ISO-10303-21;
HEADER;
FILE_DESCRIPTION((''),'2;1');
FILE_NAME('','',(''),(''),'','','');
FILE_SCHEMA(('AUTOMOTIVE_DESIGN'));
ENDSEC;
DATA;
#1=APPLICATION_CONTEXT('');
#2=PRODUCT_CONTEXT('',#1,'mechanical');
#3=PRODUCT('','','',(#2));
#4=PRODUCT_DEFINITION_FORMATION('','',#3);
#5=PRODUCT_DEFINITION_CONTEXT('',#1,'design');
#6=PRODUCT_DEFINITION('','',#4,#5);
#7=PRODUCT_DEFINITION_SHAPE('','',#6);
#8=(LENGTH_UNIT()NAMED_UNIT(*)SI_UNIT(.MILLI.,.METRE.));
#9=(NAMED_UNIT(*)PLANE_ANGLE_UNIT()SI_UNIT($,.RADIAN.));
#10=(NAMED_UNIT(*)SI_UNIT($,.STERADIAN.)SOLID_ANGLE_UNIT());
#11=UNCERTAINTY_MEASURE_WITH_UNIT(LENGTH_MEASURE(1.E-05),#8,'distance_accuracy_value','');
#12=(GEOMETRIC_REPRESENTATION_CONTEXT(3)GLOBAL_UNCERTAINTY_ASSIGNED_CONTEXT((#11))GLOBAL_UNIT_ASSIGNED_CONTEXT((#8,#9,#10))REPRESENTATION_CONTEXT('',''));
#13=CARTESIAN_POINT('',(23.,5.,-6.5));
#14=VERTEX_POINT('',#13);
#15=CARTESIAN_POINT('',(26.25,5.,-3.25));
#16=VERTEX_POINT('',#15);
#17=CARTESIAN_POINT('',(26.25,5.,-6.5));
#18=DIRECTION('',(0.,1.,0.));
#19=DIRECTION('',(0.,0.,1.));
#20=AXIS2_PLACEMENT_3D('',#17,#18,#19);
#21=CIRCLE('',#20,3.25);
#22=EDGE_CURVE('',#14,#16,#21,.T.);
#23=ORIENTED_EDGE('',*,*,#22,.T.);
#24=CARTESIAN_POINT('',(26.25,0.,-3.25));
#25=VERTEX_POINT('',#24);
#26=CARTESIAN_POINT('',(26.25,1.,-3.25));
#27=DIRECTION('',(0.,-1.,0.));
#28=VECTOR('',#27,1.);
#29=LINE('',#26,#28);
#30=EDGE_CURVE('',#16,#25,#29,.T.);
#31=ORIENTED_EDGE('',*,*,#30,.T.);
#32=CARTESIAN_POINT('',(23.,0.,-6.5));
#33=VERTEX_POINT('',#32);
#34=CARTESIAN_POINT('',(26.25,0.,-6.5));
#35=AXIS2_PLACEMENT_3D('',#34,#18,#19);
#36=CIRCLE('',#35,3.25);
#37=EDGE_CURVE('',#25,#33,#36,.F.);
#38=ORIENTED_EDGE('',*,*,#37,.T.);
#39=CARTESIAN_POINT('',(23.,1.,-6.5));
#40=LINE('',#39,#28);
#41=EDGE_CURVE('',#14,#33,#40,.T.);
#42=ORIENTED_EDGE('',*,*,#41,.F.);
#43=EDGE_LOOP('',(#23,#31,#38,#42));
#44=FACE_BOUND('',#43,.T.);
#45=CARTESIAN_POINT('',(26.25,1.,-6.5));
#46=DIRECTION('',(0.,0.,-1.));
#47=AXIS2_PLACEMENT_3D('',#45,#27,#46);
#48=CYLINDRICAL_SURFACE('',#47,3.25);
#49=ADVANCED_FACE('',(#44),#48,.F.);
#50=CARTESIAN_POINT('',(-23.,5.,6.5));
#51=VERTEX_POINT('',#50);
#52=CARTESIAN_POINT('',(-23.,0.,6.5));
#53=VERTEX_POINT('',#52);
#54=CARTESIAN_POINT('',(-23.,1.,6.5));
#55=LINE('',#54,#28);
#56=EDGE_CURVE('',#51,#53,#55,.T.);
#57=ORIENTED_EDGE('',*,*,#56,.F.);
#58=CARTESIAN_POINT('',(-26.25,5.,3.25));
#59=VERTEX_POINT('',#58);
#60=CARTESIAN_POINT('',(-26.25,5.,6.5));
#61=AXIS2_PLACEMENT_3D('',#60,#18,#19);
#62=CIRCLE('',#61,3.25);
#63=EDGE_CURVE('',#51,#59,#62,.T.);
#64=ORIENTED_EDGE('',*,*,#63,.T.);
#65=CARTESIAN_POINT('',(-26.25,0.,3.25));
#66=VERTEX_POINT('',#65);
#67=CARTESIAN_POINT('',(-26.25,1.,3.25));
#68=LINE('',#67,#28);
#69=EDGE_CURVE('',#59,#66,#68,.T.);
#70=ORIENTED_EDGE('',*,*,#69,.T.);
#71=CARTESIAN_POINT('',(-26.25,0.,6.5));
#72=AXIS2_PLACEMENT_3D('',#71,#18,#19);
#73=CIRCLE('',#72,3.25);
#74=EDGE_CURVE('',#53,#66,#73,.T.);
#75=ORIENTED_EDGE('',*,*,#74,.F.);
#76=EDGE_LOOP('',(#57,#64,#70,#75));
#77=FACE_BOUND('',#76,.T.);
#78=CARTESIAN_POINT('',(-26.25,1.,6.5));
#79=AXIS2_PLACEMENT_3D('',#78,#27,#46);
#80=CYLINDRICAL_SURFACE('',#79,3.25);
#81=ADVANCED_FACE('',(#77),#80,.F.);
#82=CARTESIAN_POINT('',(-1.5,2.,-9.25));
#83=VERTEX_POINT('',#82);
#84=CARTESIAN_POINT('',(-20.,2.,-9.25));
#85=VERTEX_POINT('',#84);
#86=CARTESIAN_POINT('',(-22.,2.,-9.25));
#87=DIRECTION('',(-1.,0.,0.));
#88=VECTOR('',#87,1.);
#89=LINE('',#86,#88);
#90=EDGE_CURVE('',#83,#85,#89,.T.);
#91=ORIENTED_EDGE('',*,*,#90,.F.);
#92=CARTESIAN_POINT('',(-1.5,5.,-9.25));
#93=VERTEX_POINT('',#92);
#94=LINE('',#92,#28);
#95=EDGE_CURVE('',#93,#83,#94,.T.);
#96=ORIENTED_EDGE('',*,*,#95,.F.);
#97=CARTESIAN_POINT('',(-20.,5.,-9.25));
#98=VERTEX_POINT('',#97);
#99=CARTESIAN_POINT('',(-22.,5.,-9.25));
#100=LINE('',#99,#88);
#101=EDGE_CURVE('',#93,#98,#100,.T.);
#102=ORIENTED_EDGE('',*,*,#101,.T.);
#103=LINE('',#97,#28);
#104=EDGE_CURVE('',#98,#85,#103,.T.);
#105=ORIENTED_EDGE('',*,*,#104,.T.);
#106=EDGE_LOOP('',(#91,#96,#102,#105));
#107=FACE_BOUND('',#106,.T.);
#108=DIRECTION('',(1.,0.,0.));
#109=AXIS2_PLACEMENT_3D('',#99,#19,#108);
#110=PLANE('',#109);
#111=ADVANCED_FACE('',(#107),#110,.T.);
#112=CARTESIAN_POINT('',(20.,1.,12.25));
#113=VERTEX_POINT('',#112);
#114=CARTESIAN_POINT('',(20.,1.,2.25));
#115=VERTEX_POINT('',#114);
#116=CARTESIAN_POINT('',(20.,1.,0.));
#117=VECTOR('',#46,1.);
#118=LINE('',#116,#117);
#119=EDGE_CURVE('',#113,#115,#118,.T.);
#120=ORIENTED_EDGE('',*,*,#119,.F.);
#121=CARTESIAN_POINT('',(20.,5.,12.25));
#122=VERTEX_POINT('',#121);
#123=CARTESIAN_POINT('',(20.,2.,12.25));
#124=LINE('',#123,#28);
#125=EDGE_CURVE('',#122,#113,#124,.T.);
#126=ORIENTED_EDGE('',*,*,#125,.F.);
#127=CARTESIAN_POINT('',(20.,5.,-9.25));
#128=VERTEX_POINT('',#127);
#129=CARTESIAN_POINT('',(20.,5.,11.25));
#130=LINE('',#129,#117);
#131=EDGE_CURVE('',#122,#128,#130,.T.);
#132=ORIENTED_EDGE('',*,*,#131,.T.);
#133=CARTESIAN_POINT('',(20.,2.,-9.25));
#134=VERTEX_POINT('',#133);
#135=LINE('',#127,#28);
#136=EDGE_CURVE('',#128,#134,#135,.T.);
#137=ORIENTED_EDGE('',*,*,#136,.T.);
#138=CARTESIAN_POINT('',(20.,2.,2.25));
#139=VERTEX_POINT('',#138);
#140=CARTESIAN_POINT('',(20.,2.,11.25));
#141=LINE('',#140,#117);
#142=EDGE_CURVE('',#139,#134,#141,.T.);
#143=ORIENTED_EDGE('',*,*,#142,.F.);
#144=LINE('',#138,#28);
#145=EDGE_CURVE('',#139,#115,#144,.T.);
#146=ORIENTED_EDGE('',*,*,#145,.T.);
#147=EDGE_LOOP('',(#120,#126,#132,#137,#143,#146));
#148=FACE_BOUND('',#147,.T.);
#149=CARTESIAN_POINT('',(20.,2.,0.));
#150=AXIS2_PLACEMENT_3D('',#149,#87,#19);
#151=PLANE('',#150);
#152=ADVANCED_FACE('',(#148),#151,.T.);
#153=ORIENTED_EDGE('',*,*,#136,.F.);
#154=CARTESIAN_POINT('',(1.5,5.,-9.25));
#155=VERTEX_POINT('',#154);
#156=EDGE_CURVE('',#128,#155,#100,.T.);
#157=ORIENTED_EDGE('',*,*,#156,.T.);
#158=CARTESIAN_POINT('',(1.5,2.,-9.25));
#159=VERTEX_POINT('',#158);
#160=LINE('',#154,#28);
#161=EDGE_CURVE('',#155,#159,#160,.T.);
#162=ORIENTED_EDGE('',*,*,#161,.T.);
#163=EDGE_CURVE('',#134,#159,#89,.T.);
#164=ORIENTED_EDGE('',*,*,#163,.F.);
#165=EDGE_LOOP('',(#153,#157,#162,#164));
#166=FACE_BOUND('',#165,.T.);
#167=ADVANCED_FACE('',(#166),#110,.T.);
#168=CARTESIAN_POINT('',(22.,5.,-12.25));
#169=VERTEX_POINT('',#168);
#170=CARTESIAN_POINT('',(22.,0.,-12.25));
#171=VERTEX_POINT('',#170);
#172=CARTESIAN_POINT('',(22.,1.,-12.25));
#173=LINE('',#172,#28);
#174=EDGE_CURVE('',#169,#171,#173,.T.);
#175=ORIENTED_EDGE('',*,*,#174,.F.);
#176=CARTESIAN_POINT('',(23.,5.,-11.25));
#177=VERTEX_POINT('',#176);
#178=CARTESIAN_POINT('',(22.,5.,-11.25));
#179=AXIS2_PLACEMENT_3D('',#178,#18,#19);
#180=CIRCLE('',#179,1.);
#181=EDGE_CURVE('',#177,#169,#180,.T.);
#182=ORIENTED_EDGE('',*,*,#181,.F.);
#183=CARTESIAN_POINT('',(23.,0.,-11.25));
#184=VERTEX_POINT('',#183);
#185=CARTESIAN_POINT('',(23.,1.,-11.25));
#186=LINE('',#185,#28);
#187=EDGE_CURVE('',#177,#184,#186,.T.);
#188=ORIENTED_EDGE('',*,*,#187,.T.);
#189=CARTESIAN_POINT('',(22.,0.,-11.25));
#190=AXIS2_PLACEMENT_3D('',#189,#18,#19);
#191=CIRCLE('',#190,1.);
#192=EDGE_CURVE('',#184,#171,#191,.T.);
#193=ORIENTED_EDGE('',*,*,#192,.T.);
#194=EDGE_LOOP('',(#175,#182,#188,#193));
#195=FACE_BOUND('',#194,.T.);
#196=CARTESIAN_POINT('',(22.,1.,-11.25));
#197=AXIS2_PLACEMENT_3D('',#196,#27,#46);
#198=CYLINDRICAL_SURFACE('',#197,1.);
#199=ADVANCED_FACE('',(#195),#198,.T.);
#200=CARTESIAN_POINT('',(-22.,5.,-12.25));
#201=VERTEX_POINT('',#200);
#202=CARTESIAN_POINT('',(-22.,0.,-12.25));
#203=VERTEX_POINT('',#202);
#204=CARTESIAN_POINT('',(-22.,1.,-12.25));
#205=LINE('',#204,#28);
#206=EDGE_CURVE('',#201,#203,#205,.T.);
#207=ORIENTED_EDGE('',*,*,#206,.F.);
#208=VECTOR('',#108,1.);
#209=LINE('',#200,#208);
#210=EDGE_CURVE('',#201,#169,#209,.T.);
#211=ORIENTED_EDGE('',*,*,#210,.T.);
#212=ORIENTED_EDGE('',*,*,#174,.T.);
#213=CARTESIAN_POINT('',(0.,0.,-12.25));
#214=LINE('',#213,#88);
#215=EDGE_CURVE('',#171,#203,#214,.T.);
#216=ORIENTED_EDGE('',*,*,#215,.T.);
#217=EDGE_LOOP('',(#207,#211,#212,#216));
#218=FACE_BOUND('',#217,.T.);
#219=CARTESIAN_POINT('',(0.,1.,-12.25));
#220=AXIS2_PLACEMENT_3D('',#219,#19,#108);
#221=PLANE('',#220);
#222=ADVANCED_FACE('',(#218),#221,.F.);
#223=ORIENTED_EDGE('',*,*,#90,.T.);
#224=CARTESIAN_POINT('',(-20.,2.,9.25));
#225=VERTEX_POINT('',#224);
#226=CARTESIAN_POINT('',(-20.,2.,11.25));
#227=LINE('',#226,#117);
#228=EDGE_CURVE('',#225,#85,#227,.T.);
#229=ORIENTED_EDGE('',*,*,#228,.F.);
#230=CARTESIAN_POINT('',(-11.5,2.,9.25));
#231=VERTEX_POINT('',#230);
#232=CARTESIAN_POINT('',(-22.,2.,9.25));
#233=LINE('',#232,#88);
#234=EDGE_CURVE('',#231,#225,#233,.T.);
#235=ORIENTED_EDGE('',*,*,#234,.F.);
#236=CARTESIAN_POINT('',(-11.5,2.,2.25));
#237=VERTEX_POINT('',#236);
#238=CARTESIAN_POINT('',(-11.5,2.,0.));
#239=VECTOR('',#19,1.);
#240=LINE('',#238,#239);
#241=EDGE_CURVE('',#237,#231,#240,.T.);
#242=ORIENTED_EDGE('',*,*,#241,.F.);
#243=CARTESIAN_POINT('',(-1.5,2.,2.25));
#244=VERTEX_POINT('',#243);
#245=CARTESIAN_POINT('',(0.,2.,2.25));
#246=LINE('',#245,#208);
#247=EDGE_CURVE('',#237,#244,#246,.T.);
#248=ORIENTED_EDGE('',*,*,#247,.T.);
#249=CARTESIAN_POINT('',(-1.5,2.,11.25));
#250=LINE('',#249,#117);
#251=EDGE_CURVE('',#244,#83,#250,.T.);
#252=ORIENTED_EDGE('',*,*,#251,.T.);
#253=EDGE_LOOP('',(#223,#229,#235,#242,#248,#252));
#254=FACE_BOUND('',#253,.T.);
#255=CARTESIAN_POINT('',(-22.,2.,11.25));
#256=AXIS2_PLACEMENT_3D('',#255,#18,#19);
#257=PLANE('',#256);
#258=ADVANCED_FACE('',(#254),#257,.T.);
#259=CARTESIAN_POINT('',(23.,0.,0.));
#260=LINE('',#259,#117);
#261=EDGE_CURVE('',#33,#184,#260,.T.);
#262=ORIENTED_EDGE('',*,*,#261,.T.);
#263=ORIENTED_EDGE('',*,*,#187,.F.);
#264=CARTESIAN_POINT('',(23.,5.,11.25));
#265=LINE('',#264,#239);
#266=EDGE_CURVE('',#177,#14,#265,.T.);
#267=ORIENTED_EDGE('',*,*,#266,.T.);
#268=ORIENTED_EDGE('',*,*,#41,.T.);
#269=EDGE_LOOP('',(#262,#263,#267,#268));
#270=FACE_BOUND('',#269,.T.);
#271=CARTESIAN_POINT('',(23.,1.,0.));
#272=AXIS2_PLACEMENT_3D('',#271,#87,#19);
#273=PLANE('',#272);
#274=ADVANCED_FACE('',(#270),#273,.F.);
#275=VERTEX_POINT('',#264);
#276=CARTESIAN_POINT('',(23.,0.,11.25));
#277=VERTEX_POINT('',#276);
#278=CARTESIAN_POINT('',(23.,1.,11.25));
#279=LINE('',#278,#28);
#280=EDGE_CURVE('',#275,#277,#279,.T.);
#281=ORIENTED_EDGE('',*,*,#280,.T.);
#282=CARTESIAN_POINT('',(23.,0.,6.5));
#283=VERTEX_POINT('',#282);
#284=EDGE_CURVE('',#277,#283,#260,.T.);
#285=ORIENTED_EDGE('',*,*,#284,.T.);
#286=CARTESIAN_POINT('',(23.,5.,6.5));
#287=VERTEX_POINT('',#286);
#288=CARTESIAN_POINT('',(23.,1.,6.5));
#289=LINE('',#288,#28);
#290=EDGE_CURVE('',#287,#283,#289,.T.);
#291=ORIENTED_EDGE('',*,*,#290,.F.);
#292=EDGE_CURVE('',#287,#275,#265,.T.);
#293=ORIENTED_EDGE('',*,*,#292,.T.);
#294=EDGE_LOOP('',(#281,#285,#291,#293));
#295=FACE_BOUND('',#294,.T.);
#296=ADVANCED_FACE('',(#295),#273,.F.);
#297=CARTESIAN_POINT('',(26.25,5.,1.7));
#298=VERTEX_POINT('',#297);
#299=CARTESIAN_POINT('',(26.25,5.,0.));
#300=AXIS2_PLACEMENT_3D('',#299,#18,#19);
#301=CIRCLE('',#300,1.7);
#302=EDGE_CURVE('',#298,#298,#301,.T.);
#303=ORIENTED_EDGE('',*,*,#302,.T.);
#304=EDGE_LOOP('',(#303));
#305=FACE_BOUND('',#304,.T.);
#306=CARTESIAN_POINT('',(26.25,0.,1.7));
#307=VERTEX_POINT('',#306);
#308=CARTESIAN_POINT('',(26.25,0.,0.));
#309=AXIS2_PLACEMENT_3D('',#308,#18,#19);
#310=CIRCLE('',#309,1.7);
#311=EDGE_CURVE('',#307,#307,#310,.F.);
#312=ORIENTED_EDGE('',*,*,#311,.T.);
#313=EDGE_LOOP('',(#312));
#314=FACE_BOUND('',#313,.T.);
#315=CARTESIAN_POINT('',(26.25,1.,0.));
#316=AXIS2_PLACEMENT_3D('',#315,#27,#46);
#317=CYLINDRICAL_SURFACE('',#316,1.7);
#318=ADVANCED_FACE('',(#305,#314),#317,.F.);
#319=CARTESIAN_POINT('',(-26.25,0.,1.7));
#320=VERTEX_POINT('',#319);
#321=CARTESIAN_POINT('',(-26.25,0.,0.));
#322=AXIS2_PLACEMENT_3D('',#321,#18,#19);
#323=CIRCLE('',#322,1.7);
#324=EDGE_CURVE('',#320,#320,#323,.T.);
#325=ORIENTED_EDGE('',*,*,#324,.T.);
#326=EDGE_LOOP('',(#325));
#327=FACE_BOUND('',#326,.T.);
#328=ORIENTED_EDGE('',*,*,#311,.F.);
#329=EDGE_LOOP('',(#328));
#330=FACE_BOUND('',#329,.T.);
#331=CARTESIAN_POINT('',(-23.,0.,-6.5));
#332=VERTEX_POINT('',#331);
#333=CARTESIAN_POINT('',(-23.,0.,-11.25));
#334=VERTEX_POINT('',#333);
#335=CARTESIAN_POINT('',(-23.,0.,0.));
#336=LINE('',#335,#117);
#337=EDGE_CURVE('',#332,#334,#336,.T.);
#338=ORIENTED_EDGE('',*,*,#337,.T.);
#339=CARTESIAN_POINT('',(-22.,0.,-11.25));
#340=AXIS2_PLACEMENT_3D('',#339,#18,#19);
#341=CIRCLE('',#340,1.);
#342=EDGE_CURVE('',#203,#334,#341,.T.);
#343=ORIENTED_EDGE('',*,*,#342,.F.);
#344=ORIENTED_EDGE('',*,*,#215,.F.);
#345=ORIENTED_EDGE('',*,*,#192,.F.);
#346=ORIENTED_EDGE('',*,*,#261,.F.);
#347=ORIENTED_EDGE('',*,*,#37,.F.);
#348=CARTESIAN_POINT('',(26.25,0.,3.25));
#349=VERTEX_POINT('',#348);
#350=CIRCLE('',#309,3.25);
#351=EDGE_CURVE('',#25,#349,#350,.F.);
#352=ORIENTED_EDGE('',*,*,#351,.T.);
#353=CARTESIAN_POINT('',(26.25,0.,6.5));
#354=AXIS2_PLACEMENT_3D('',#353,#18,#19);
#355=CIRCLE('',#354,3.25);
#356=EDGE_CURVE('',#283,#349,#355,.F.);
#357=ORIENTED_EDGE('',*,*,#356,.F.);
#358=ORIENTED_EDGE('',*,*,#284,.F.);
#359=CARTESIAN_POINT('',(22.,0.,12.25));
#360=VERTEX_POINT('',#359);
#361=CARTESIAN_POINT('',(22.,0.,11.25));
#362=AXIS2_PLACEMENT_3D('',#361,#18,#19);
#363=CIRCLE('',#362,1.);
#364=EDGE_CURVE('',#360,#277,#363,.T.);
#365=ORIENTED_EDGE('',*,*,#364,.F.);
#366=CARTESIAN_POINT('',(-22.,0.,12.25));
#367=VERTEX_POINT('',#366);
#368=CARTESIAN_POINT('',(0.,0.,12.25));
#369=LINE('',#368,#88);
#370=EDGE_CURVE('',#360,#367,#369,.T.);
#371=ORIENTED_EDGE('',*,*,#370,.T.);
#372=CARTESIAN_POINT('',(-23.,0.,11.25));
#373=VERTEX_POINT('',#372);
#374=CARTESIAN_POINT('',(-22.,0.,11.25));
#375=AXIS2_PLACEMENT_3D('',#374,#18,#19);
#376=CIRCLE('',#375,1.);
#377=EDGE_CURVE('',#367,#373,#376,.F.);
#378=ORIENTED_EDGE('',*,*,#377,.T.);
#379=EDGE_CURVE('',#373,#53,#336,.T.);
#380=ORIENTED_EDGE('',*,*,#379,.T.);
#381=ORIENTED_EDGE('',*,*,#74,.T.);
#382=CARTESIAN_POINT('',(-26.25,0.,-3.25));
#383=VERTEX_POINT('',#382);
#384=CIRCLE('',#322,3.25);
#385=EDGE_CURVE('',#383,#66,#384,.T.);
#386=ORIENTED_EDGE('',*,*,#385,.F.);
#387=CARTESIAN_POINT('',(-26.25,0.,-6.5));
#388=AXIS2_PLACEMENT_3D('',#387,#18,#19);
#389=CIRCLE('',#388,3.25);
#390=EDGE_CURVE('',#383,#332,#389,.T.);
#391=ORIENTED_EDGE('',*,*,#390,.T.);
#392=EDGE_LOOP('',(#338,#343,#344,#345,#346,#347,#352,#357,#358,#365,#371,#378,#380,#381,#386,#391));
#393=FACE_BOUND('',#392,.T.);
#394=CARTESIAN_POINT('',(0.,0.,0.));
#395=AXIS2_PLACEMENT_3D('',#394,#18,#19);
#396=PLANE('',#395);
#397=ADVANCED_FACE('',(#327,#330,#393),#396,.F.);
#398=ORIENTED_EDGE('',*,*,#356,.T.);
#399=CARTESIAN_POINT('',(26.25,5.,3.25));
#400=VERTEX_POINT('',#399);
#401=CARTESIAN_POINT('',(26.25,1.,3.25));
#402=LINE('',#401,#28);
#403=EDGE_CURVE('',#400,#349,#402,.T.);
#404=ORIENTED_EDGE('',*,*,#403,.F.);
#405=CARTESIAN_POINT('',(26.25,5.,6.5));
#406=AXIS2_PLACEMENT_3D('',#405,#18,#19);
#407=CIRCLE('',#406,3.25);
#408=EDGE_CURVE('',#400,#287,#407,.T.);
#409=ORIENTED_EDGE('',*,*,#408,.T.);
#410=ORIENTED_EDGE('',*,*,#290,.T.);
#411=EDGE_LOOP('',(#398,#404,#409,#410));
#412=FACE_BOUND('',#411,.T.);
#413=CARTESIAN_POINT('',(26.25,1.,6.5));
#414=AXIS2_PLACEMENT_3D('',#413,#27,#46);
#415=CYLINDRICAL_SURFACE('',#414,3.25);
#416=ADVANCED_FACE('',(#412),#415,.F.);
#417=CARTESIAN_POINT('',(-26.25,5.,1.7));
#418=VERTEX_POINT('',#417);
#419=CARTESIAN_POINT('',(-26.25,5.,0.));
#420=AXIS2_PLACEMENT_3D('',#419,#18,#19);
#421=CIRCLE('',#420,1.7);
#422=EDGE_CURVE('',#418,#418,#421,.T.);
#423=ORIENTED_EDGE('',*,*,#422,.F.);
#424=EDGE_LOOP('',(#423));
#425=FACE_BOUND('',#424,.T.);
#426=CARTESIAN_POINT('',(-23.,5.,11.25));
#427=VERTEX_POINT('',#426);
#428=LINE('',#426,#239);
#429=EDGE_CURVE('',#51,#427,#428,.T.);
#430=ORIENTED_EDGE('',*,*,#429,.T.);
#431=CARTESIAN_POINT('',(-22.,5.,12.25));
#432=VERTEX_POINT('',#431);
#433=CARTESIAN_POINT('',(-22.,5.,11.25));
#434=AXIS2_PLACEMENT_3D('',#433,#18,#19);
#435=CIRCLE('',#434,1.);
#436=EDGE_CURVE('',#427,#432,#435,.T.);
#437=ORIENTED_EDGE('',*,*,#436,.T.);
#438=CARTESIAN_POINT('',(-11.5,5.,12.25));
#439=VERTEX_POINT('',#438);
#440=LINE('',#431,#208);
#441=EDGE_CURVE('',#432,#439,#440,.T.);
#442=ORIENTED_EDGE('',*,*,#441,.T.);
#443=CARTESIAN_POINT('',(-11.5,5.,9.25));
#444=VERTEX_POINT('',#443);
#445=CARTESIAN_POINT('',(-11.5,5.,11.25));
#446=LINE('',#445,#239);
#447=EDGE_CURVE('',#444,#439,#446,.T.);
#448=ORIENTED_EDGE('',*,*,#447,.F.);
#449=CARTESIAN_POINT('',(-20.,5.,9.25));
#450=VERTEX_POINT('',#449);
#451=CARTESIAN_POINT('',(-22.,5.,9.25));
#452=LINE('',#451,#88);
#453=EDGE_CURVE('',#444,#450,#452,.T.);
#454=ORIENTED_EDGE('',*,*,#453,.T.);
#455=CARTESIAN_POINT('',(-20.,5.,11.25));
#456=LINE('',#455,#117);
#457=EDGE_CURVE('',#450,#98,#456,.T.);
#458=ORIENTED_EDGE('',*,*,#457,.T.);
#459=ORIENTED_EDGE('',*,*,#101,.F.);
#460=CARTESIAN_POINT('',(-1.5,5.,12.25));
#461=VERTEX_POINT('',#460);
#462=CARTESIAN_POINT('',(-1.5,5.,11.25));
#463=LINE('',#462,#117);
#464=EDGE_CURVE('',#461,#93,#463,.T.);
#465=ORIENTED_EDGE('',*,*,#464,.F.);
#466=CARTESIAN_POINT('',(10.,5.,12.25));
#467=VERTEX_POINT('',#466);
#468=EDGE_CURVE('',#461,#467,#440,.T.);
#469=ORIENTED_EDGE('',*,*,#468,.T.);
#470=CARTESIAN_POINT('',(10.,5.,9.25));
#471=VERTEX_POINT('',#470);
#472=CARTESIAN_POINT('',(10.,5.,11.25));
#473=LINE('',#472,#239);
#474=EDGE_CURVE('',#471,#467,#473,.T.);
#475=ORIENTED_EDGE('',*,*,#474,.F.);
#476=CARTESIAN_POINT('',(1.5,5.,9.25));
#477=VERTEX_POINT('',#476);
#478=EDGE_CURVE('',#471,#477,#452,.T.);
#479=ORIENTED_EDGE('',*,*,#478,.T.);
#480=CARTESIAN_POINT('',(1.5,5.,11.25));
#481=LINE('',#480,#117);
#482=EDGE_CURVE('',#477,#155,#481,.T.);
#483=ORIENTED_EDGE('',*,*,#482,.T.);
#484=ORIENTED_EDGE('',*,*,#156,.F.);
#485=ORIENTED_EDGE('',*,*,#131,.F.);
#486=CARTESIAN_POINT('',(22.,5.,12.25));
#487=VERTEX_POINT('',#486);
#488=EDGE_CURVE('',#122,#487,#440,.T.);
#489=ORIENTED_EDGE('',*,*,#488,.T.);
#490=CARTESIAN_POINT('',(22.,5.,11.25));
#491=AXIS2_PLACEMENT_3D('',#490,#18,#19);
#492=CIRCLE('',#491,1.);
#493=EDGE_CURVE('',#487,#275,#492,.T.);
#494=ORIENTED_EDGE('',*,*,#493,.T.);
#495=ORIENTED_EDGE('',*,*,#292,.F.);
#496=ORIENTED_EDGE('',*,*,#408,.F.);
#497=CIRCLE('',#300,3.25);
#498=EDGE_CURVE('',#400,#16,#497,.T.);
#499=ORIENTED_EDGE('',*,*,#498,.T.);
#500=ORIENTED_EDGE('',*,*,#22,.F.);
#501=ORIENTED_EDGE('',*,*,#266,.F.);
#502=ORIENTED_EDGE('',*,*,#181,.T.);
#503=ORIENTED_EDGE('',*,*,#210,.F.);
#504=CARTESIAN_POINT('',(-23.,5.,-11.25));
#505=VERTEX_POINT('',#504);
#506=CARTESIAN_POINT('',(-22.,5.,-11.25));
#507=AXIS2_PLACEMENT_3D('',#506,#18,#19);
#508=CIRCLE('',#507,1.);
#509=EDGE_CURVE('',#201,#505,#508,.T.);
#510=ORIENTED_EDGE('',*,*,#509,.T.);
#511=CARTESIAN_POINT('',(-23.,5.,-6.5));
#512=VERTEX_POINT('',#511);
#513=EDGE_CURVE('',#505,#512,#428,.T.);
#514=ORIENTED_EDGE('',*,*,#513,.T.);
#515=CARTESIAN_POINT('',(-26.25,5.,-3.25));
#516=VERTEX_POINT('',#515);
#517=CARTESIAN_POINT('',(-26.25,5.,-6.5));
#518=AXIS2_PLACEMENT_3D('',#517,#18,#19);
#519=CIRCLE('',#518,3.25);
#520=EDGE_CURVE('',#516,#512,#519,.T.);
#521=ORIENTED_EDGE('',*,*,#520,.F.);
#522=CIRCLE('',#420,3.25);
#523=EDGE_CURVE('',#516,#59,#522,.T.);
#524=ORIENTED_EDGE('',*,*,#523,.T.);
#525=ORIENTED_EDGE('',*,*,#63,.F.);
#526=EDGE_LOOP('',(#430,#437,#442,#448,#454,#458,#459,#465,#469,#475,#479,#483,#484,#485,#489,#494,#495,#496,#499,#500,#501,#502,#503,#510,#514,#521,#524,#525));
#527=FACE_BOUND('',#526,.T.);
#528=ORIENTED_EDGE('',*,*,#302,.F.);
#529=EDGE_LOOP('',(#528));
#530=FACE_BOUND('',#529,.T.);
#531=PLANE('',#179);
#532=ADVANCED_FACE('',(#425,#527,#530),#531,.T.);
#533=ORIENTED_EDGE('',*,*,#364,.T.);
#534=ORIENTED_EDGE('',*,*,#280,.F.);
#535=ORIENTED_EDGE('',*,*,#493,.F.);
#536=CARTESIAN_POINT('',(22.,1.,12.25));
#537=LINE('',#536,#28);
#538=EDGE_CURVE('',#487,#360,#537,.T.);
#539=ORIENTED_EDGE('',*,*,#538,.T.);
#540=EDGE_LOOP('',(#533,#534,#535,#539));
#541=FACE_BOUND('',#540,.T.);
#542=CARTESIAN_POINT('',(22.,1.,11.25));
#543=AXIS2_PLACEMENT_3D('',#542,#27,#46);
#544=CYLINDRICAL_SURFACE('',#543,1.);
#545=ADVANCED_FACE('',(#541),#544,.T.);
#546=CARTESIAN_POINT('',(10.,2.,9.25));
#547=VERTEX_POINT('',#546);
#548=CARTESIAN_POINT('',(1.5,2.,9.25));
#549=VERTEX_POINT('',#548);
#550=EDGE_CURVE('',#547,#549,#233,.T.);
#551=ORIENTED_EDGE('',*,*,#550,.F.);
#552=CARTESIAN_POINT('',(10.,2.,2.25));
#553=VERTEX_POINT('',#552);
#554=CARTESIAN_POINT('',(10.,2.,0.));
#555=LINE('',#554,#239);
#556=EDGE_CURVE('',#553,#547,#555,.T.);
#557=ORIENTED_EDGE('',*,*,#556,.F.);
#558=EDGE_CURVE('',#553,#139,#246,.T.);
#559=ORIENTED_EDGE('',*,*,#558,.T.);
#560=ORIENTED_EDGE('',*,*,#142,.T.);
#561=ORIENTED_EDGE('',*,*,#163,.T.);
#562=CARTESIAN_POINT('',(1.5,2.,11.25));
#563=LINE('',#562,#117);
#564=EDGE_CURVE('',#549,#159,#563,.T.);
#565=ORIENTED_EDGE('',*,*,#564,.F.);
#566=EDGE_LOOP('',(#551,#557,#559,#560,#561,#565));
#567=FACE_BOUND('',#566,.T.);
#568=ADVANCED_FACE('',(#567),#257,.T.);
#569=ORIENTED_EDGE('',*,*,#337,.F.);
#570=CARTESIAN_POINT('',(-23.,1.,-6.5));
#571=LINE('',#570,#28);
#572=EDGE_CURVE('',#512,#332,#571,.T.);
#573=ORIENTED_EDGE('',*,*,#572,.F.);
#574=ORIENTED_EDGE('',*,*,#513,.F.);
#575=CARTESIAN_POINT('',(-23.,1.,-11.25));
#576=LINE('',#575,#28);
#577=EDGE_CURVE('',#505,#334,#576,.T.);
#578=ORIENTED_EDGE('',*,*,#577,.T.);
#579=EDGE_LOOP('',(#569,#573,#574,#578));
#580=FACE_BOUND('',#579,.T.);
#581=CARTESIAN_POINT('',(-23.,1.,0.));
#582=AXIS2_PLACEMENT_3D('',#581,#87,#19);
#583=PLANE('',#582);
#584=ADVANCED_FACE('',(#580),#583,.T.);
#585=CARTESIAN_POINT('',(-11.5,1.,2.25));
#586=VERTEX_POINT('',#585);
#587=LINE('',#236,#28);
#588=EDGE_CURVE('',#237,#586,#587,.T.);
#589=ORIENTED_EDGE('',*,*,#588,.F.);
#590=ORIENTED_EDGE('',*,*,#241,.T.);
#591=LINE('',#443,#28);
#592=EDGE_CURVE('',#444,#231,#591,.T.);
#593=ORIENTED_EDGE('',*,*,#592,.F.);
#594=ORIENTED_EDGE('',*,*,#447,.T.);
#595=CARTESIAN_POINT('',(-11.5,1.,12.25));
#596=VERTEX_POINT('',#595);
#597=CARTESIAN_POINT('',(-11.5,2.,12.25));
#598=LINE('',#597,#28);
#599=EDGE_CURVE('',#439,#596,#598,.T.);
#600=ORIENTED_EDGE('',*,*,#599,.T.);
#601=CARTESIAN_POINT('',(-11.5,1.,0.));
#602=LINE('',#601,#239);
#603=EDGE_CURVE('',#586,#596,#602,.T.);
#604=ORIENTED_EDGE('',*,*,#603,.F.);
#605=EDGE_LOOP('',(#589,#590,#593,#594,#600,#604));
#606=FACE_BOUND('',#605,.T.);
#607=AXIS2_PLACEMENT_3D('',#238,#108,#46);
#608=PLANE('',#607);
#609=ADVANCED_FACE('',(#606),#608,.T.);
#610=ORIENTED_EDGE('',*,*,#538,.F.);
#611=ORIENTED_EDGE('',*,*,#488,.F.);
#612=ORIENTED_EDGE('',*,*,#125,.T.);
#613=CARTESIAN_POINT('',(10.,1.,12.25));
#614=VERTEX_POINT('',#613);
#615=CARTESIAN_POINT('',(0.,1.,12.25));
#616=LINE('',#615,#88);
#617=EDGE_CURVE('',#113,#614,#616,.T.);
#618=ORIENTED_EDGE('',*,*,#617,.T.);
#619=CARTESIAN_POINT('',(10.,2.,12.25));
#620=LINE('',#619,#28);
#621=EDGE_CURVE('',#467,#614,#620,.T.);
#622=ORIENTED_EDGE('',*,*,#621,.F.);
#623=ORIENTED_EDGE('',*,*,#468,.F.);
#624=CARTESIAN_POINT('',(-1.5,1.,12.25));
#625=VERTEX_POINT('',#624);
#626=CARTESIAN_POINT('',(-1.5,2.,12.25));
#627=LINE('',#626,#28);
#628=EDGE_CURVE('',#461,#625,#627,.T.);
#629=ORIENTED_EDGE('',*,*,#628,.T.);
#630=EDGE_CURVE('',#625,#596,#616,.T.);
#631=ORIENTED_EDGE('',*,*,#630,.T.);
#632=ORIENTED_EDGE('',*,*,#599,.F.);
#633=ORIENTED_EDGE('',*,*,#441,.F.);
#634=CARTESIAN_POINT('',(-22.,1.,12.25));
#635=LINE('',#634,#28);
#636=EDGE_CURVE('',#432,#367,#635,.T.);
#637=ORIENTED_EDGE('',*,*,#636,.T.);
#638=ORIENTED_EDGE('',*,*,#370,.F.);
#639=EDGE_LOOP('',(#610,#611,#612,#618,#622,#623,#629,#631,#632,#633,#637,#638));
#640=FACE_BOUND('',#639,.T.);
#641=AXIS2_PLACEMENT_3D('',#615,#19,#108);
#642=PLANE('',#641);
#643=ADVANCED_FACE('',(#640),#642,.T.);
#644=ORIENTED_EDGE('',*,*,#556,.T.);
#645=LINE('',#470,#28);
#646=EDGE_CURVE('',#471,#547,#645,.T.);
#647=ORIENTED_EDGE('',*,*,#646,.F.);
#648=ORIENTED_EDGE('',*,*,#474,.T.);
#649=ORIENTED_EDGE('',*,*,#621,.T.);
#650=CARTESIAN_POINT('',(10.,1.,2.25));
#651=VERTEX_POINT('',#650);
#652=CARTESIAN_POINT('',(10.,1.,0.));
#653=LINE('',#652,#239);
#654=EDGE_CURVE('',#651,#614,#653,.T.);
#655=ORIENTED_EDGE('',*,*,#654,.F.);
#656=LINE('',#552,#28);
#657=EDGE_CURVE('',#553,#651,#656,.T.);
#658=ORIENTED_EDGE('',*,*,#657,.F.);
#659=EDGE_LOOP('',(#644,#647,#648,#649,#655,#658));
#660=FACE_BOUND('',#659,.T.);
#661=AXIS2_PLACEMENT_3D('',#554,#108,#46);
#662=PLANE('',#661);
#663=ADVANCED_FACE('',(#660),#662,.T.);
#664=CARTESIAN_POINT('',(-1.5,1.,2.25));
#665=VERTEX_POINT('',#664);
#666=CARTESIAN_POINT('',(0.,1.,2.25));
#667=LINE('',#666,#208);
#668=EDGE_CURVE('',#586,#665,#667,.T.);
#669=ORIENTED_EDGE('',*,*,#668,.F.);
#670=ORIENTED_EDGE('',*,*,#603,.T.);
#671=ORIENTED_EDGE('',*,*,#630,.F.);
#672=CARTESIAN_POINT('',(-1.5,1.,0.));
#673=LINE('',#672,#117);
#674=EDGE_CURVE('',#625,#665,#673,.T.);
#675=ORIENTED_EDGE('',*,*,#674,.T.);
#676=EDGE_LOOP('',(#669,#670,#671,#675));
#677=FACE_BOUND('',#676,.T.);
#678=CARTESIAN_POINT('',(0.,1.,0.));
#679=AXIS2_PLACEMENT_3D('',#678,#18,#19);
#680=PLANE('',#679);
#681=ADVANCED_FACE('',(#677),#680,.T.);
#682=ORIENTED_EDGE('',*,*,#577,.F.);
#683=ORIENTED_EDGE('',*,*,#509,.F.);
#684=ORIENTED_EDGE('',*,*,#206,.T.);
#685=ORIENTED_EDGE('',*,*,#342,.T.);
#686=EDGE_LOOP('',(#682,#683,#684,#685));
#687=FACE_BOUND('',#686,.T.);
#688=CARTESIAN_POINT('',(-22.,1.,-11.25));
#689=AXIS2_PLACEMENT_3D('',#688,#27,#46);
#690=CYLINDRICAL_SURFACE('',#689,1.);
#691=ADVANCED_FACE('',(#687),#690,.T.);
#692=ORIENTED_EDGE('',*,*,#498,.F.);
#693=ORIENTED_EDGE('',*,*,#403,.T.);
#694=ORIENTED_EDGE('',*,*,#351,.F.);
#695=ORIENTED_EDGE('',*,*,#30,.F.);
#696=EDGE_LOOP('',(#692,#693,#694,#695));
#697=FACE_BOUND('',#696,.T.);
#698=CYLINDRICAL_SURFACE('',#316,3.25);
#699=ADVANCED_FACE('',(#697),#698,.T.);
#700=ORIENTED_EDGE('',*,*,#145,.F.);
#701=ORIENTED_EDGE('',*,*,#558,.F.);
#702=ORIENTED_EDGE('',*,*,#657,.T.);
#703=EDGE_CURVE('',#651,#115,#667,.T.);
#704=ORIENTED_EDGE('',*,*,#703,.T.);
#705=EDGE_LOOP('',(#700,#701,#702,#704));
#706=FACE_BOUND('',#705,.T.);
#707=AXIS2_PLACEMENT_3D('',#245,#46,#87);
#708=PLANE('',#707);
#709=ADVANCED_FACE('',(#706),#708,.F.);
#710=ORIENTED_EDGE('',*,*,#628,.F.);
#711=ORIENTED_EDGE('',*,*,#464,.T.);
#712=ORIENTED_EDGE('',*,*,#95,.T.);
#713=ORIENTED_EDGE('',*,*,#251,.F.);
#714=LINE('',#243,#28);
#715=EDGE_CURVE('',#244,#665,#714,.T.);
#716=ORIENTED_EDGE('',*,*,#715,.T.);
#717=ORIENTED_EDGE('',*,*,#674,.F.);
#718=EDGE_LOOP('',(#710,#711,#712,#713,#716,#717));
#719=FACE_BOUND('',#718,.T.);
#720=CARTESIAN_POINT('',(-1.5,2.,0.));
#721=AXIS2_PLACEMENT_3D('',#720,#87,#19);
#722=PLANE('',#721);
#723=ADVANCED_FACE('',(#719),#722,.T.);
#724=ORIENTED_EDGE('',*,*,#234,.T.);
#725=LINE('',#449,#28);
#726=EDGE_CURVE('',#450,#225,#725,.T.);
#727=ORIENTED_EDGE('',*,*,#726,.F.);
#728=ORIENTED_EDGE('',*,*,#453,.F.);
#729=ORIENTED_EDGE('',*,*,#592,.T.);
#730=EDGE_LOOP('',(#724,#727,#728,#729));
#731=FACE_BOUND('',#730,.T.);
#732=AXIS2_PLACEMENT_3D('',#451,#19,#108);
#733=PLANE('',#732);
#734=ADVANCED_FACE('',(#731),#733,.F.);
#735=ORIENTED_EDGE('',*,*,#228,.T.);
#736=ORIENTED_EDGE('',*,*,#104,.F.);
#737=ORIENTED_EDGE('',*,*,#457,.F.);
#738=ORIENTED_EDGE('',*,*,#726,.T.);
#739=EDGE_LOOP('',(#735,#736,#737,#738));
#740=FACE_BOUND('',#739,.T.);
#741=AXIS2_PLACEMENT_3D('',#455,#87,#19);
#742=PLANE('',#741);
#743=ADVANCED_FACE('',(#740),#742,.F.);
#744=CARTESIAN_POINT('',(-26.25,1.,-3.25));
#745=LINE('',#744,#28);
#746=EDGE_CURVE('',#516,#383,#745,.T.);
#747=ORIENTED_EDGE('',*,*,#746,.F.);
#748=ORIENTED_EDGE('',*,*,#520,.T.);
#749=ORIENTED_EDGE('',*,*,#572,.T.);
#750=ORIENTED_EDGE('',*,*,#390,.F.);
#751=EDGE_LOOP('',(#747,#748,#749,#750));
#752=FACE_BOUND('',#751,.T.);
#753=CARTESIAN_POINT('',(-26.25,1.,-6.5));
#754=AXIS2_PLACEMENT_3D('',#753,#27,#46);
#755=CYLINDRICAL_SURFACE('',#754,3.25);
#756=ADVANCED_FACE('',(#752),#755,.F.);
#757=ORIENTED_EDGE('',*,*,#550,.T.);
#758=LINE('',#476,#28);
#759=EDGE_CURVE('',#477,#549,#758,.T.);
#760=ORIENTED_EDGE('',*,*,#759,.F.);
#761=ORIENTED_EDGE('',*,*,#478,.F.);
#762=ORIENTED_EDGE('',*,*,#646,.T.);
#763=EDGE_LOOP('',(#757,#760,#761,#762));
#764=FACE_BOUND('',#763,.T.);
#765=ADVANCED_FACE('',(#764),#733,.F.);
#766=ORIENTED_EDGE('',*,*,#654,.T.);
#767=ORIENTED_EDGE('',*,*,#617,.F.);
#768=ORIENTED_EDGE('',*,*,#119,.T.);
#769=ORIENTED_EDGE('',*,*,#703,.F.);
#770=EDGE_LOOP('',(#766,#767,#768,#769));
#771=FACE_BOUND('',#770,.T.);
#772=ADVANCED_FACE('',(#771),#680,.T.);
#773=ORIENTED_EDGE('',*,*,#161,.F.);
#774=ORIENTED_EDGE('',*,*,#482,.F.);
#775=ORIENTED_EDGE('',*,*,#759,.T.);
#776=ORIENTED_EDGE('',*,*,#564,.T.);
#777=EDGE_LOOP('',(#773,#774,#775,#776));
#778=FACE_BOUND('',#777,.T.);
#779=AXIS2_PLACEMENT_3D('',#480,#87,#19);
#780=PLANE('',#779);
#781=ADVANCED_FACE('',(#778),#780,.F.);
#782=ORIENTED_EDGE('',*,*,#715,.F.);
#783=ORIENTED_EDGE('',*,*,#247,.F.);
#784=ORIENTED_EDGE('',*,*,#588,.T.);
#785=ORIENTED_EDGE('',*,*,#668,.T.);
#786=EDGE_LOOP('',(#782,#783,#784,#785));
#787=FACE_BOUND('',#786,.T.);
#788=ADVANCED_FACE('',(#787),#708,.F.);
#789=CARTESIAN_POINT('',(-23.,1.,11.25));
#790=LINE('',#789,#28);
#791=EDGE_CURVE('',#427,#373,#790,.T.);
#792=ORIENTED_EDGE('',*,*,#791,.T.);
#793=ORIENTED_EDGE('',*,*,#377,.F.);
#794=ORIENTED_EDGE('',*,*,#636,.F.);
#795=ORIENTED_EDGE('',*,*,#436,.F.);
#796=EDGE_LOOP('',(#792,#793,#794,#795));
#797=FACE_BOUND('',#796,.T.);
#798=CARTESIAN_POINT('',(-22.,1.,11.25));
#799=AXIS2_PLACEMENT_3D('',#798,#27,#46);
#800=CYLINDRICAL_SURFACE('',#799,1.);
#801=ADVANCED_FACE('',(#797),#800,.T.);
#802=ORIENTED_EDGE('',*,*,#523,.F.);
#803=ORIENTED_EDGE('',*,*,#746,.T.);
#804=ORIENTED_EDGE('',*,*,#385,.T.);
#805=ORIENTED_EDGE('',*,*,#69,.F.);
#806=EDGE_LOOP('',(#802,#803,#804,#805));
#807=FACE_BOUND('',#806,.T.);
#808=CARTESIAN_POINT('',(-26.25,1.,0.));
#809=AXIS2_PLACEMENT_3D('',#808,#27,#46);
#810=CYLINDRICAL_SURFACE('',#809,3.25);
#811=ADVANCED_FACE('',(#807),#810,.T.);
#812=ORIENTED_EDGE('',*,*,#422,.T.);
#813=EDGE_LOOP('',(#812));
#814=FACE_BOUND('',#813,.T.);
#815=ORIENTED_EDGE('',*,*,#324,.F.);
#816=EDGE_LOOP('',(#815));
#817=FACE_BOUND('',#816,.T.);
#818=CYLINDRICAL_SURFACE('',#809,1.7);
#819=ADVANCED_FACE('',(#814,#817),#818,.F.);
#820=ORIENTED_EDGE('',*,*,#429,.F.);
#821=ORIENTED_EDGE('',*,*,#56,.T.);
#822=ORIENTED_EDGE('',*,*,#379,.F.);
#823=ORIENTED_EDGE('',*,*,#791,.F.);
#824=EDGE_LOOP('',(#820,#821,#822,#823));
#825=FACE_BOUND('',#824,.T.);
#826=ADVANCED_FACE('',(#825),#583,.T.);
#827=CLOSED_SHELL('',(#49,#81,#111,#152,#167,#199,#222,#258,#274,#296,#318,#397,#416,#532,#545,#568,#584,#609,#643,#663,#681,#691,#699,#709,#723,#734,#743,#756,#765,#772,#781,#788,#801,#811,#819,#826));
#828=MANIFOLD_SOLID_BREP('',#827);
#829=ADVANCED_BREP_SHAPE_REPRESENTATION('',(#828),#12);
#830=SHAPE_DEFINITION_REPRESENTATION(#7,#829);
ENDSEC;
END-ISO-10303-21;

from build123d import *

# Parameters (mm, degrees)
SKETCH_1_R      = 1.7
SKETCH_1_W      = 10
SKETCH_1_H      = 3
SKETCH_1_H_2    = 7
EXTRUDE_1_DEPTH = 1
EXTRUDE_START   = 1
SKETCH_1_3_R    = 1.7
EXTRUDE_2_DEPTH = 1
EXTRUDE_START_2 = 2
SKETCH_1_5_R    = 1.7
EXTRUDE_3_DEPTH = 3
EXTRUDE_START_3 = 7
SKETCH_1_7_R    = 1.7
SKETCH_1_7_W    = 10
SKETCH_1_7_H    = 3
EXTRUDE_4_DEPTH = 2.5
EXTRUDE_START_4 = 9.5
SKETCH_1_9_W    = 10
SKETCH_1_9_H    = 7
SKETCH_1_9_H_2  = 3
SKETCH_1_9_R    = 1.7
EXTRUDE_5_DEPTH = 1
FILLET_1_R      = 1


with BuildPart() as part:
    # Эскиз1 → Бобышка-Вытянуть1 (new body)
    # profile 1 of 9: a face of its own
    with BuildSketch(Plane(origin=(0, 0, 0), x_dir=(1, 0, 0), z_dir=(0, 1, 0))):
        with BuildLine():
            ThreePointArc((-26.25, -3.25), (-23.951902961, -4.201902961), (-23, -6.5))
            Line((-23, -6.5), (-23, 6.5))
            ThreePointArc((-23, 6.5), (-23.951902961, 4.201902961), (-26.25, 3.25))
            ThreePointArc((-26.25, 3.25), (-29.5, 0), (-26.25, -3.25))
        make_face()
        with Locations(Location((-26.25, 0, 0), (0, 0, 270))):
            Circle(SKETCH_1_R, mode=Mode.SUBTRACT)
    # profile 2 of 9: a face of its own
    with BuildSketch(Plane(origin=(0, 0, 0), x_dir=(1, 0, 0), z_dir=(0, 1, 0))):
        with BuildLine():
            Line((20, -12.25), (22, -12.25))
            ThreePointArc((22, -12.25), (22.707106781, -11.957106781), (23, -11.25))
            Line((23, -11.25), (23, -6.5))
            Line((23, -6.5), (23, 6.5))
            Line((23, 6.5), (23, 11.25))
            ThreePointArc((23, 11.25), (22.707106781, 11.957106781), (22, 12.25))
            Line((22, 12.25), (-22, 12.25))
            ThreePointArc((-22, 12.25), (-22.707106781, 11.957106781), (-23, 11.25))
            Line((-23, 11.25), (-23, 6.5))
            Line((-23, 6.5), (-23, -6.5))
            Line((-23, -6.5), (-23, -11.25))
            ThreePointArc((-23, -11.25), (-22.707106781, -11.957106781), (-22, -12.25))
            Line((-22, -12.25), (-11.5, -12.25))
            Line((-11.5, -12.25), (-11.5, -9.25))
            Line((-11.5, -9.25), (-20, -9.25))
            Line((-20, -9.25), (-20, 9.25))
            Line((-20, 9.25), (-1.5, 9.25))
            Line((-1.5, 9.25), (-1.5, -2.25))
            Line((-1.5, -2.25), (-1.5, -9.25))
            Line((-1.5, -9.25), (-1.5, -12.25))
            Line((-1.5, -12.25), (10, -12.25))
            Line((10, -12.25), (10, -9.25))
            Line((10, -9.25), (1.5, -9.25))
            Line((1.5, -9.25), (1.5, 9.25))
            Line((1.5, 9.25), (20, 9.25))
            Line((20, 9.25), (20, -2.25))
            Line((20, -2.25), (20, -9.25))
            Line((20, -9.25), (20, -12.25))
        make_face()
    # profile 3 of 9: a face of its own
    with BuildSketch(Plane(origin=(0, 0, 0), x_dir=(1, 0, 0), z_dir=(0, 1, 0))):
        with Locations((-6.5, -10.75)):
            Rectangle(SKETCH_1_W, SKETCH_1_H)
    # profile 4 of 9: a face of its own
    with BuildSketch(Plane(origin=(0, 0, 0), x_dir=(1, 0, 0), z_dir=(0, 1, 0))):
        with Locations((-6.5, -5.75)):
            Rectangle(SKETCH_1_W, SKETCH_1_H_2)
    # profile 5 of 9: a face of its own
    with BuildSketch(Plane(origin=(0, 0, 0), x_dir=(1, 0, 0), z_dir=(0, 1, 0))):
        Polygon((-20, -9.25), (-11.5, -9.25), (-11.5, -2.25), (-1.5, -2.25), (-1.5, 9.25), (-20, 9.25), align=None)
    # profile 6 of 9: a face of its own
    with BuildSketch(Plane(origin=(0, 0, 0), x_dir=(1, 0, 0), z_dir=(0, 1, 0))):
        Polygon((1.5, -9.25), (10, -9.25), (10, -2.25), (20, -2.25), (20, 9.25), (1.5, 9.25), align=None)
    # profile 7 of 9: a face of its own
    with BuildSketch(Plane(origin=(0, 0, 0), x_dir=(1, 0, 0), z_dir=(0, 1, 0))):
        with Locations((15, -10.75)):
            Rectangle(SKETCH_1_W, SKETCH_1_H)
    # profile 8 of 9: a face of its own
    with BuildSketch(Plane(origin=(0, 0, 0), x_dir=(1, 0, 0), z_dir=(0, 1, 0))):
        with Locations((15, -5.75)):
            Rectangle(SKETCH_1_W, SKETCH_1_H_2)
    # profile 9 of 9: a face of its own
    with BuildSketch(Plane(origin=(0, 0, 0), x_dir=(1, 0, 0), z_dir=(0, 1, 0))):
        with BuildLine():
            Line((23, 6.5), (23, -6.5))
            ThreePointArc((23, -6.5), (23.951902961, -4.201902961), (26.25, -3.25))
            ThreePointArc((26.25, -3.25), (29.5, 0), (26.25, 3.25))
            ThreePointArc((26.25, 3.25), (23.951902961, 4.201902961), (23, 6.5))
        make_face()
        with Locations(Location((26.25, 0, 0), (0, 0, 270))):
            Circle(SKETCH_1_R, mode=Mode.SUBTRACT)
    extrude(amount=EXTRUDE_1_DEPTH)

    # Эскиз1<3> → Бобышка-Вытянуть2 (add)
    # profile 1 of 5: a face of its own
    with BuildSketch(Plane(origin=(0, 0, 0), x_dir=(1, 0, 0), z_dir=(0, 1, 0)).offset(EXTRUDE_START)):
        with BuildLine():
            Line((20, -12.25), (22, -12.25))
            ThreePointArc((22, -12.25), (22.707106781, -11.957106781), (23, -11.25))
            Line((23, -11.25), (23, -6.5))
            Line((23, -6.5), (23, 6.5))
            Line((23, 6.5), (23, 11.25))
            ThreePointArc((23, 11.25), (22.707106781, 11.957106781), (22, 12.25))
            Line((22, 12.25), (-22, 12.25))
            ThreePointArc((-22, 12.25), (-22.707106781, 11.957106781), (-23, 11.25))
            Line((-23, 11.25), (-23, 6.5))
            Line((-23, 6.5), (-23, -6.5))
            Line((-23, -6.5), (-23, -11.25))
            ThreePointArc((-23, -11.25), (-22.707106781, -11.957106781), (-22, -12.25))
            Line((-22, -12.25), (-11.5, -12.25))
            Line((-11.5, -12.25), (-11.5, -9.25))
            Line((-11.5, -9.25), (-20, -9.25))
            Line((-20, -9.25), (-20, 9.25))
            Line((-20, 9.25), (-1.5, 9.25))
            Line((-1.5, 9.25), (-1.5, -2.25))
            Line((-1.5, -2.25), (-1.5, -9.25))
            Line((-1.5, -9.25), (-1.5, -12.25))
            Line((-1.5, -12.25), (10, -12.25))
            Line((10, -12.25), (10, -9.25))
            Line((10, -9.25), (1.5, -9.25))
            Line((1.5, -9.25), (1.5, 9.25))
            Line((1.5, 9.25), (20, 9.25))
            Line((20, 9.25), (20, -2.25))
            Line((20, -2.25), (20, -9.25))
            Line((20, -9.25), (20, -12.25))
        make_face()
    # profile 2 of 5: a face of its own
    with BuildSketch(Plane(origin=(0, 0, 0), x_dir=(1, 0, 0), z_dir=(0, 1, 0)).offset(EXTRUDE_START)):
        Polygon((-20, -9.25), (-11.5, -9.25), (-11.5, -2.25), (-1.5, -2.25), (-1.5, 9.25), (-20, 9.25), align=None)
    # profile 3 of 5: a face of its own
    with BuildSketch(Plane(origin=(0, 0, 0), x_dir=(1, 0, 0), z_dir=(0, 1, 0)).offset(EXTRUDE_START)):
        with BuildLine():
            ThreePointArc((-26.25, -3.25), (-23.951902961, -4.201902961), (-23, -6.5))
            Line((-23, -6.5), (-23, 6.5))
            ThreePointArc((-23, 6.5), (-23.951902961, 4.201902961), (-26.25, 3.25))
            ThreePointArc((-26.25, 3.25), (-29.5, 0), (-26.25, -3.25))
        make_face()
        with Locations(Location((-26.25, 0, 0), (0, 0, 270))):
            Circle(SKETCH_1_3_R, mode=Mode.SUBTRACT)
    # profile 4 of 5: a face of its own
    with BuildSketch(Plane(origin=(0, 0, 0), x_dir=(1, 0, 0), z_dir=(0, 1, 0)).offset(EXTRUDE_START)):
        Polygon((1.5, -9.25), (10, -9.25), (10, -2.25), (20, -2.25), (20, 9.25), (1.5, 9.25), align=None)
    # profile 5 of 5: a face of its own
    with BuildSketch(Plane(origin=(0, 0, 0), x_dir=(1, 0, 0), z_dir=(0, 1, 0)).offset(EXTRUDE_START)):
        with BuildLine():
            Line((23, 6.5), (23, -6.5))
            ThreePointArc((23, -6.5), (23.951902961, -4.201902961), (26.25, -3.25))
            ThreePointArc((26.25, -3.25), (29.5, 0), (26.25, 3.25))
            ThreePointArc((26.25, 3.25), (23.951902961, 4.201902961), (23, 6.5))
        make_face()
        with Locations(Location((26.25, 0, 0), (0, 0, 270))):
            Circle(SKETCH_1_3_R, mode=Mode.SUBTRACT)
    extrude(amount=EXTRUDE_2_DEPTH)

    # Эскиз1<5> → Бобышка-Вытянуть3 (add)
    # profile 1 of 3: a face of its own
    with BuildSketch(Plane(origin=(0, 0, 0), x_dir=(1, 0, 0), z_dir=(0, 1, 0)).offset(EXTRUDE_START_2)):
        with BuildLine():
            Line((20, -12.25), (22, -12.25))
            ThreePointArc((22, -12.25), (22.707106781, -11.957106781), (23, -11.25))
            Line((23, -11.25), (23, -6.5))
            Line((23, -6.5), (23, 6.5))
            Line((23, 6.5), (23, 11.25))
            ThreePointArc((23, 11.25), (22.707106781, 11.957106781), (22, 12.25))
            Line((22, 12.25), (-22, 12.25))
            ThreePointArc((-22, 12.25), (-22.707106781, 11.957106781), (-23, 11.25))
            Line((-23, 11.25), (-23, 6.5))
            Line((-23, 6.5), (-23, -6.5))
            Line((-23, -6.5), (-23, -11.25))
            ThreePointArc((-23, -11.25), (-22.707106781, -11.957106781), (-22, -12.25))
            Line((-22, -12.25), (-11.5, -12.25))
            Line((-11.5, -12.25), (-11.5, -9.25))
            Line((-11.5, -9.25), (-20, -9.25))
            Line((-20, -9.25), (-20, 9.25))
            Line((-20, 9.25), (-1.5, 9.25))
            Line((-1.5, 9.25), (-1.5, -2.25))
            Line((-1.5, -2.25), (-1.5, -9.25))
            Line((-1.5, -9.25), (-1.5, -12.25))
            Line((-1.5, -12.25), (10, -12.25))
            Line((10, -12.25), (10, -9.25))
            Line((10, -9.25), (1.5, -9.25))
            Line((1.5, -9.25), (1.5, 9.25))
            Line((1.5, 9.25), (20, 9.25))
            Line((20, 9.25), (20, -2.25))
            Line((20, -2.25), (20, -9.25))
            Line((20, -9.25), (20, -12.25))
        make_face()
    # profile 2 of 3: a face of its own
    with BuildSketch(Plane(origin=(0, 0, 0), x_dir=(1, 0, 0), z_dir=(0, 1, 0)).offset(EXTRUDE_START_2)):
        with BuildLine():
            ThreePointArc((-26.25, -3.25), (-23.951902961, -4.201902961), (-23, -6.5))
            Line((-23, -6.5), (-23, 6.5))
            ThreePointArc((-23, 6.5), (-23.951902961, 4.201902961), (-26.25, 3.25))
            ThreePointArc((-26.25, 3.25), (-29.5, 0), (-26.25, -3.25))
        make_face()
        with Locations(Location((-26.25, 0, 0), (0, 0, 270))):
            Circle(SKETCH_1_5_R, mode=Mode.SUBTRACT)
    # profile 3 of 3: a face of its own
    with BuildSketch(Plane(origin=(0, 0, 0), x_dir=(1, 0, 0), z_dir=(0, 1, 0)).offset(EXTRUDE_START_2)):
        with BuildLine():
            Line((23, 6.5), (23, -6.5))
            ThreePointArc((23, -6.5), (23.951902961, -4.201902961), (26.25, -3.25))
            ThreePointArc((26.25, -3.25), (29.5, 0), (26.25, 3.25))
            ThreePointArc((26.25, 3.25), (23.951902961, 4.201902961), (23, 6.5))
        make_face()
        with Locations(Location((26.25, 0, 0), (0, 0, 270))):
            Circle(SKETCH_1_5_R, mode=Mode.SUBTRACT)
    extrude(amount=EXTRUDE_3_DEPTH)


with BuildPart() as body_2:
    # Эскиз1<7> → Бобышка-Вытянуть4 (new body)
    # profile 1 of 5: a face of its own
    with BuildSketch(Plane(origin=(0, 0, 0), x_dir=(1, 0, 0), z_dir=(0, 1, 0)).offset(EXTRUDE_START_3)):
        with BuildLine():
            Line((20, -12.25), (22, -12.25))
            ThreePointArc((22, -12.25), (22.707106781, -11.957106781), (23, -11.25))
            Line((23, -11.25), (23, -6.5))
            Line((23, -6.5), (23, 6.5))
            Line((23, 6.5), (23, 11.25))
            ThreePointArc((23, 11.25), (22.707106781, 11.957106781), (22, 12.25))
            Line((22, 12.25), (-22, 12.25))
            ThreePointArc((-22, 12.25), (-22.707106781, 11.957106781), (-23, 11.25))
            Line((-23, 11.25), (-23, 6.5))
            Line((-23, 6.5), (-23, -6.5))
            Line((-23, -6.5), (-23, -11.25))
            ThreePointArc((-23, -11.25), (-22.707106781, -11.957106781), (-22, -12.25))
            Line((-22, -12.25), (-11.5, -12.25))
            Line((-11.5, -12.25), (-11.5, -9.25))
            Line((-11.5, -9.25), (-20, -9.25))
            Line((-20, -9.25), (-20, 9.25))
            Line((-20, 9.25), (-1.5, 9.25))
            Line((-1.5, 9.25), (-1.5, -2.25))
            Line((-1.5, -2.25), (-1.5, -9.25))
            Line((-1.5, -9.25), (-1.5, -12.25))
            Line((-1.5, -12.25), (10, -12.25))
            Line((10, -12.25), (10, -9.25))
            Line((10, -9.25), (1.5, -9.25))
            Line((1.5, -9.25), (1.5, 9.25))
            Line((1.5, 9.25), (20, 9.25))
            Line((20, 9.25), (20, -2.25))
            Line((20, -2.25), (20, -9.25))
            Line((20, -9.25), (20, -12.25))
        make_face()
    # profile 2 of 5: a face of its own
    with BuildSketch(Plane(origin=(0, 0, 0), x_dir=(1, 0, 0), z_dir=(0, 1, 0)).offset(EXTRUDE_START_3)):
        with BuildLine():
            ThreePointArc((-26.25, -3.25), (-23.951902961, -4.201902961), (-23, -6.5))
            Line((-23, -6.5), (-23, 6.5))
            ThreePointArc((-23, 6.5), (-23.951902961, 4.201902961), (-26.25, 3.25))
            ThreePointArc((-26.25, 3.25), (-29.5, 0), (-26.25, -3.25))
        make_face()
        with Locations(Location((-26.25, 0, 0), (0, 0, 270))):
            Circle(SKETCH_1_7_R, mode=Mode.SUBTRACT)
    # profile 3 of 5: a face of its own
    with BuildSketch(Plane(origin=(0, 0, 0), x_dir=(1, 0, 0), z_dir=(0, 1, 0)).offset(EXTRUDE_START_3)):
        with BuildLine():
            Line((23, 6.5), (23, -6.5))
            ThreePointArc((23, -6.5), (23.951902961, -4.201902961), (26.25, -3.25))
            ThreePointArc((26.25, -3.25), (29.5, 0), (26.25, 3.25))
            ThreePointArc((26.25, 3.25), (23.951902961, 4.201902961), (23, 6.5))
        make_face()
        with Locations(Location((26.25, 0, 0), (0, 0, 270))):
            Circle(SKETCH_1_7_R, mode=Mode.SUBTRACT)
    # profile 4 of 5: a face of its own
    with BuildSketch(Plane(origin=(0, 0, 0), x_dir=(1, 0, 0), z_dir=(0, 1, 0)).offset(EXTRUDE_START_3)):
        with Locations((-6.5, -10.75)):
            Rectangle(SKETCH_1_7_W, SKETCH_1_7_H)
    # profile 5 of 5: a face of its own
    with BuildSketch(Plane(origin=(0, 0, 0), x_dir=(1, 0, 0), z_dir=(0, 1, 0)).offset(EXTRUDE_START_3)):
        with Locations((15, -10.75)):
            Rectangle(SKETCH_1_7_W, SKETCH_1_7_H)
    extrude(amount=EXTRUDE_4_DEPTH)

    # Эскиз1<9> → Бобышка-Вытянуть5 (add)
    # profile 1 of 9: a face of its own
    with BuildSketch(Plane(origin=(0, 0, 0), x_dir=(1, 0, 0), z_dir=(0, 1, 0)).offset(EXTRUDE_START_4)):
        Polygon((-20, -9.25), (-11.5, -9.25), (-11.5, -2.25), (-1.5, -2.25), (-1.5, 9.25), (-20, 9.25), align=None)
    # profile 2 of 9: a face of its own
    with BuildSketch(Plane(origin=(0, 0, 0), x_dir=(1, 0, 0), z_dir=(0, 1, 0)).offset(EXTRUDE_START_4)):
        Polygon((1.5, -9.25), (10, -9.25), (10, -2.25), (20, -2.25), (20, 9.25), (1.5, 9.25), align=None)
    # profile 3 of 9: a face of its own
    with BuildSketch(Plane(origin=(0, 0, 0), x_dir=(1, 0, 0), z_dir=(0, 1, 0)).offset(EXTRUDE_START_4)):
        with Locations((15, -5.75)):
            Rectangle(SKETCH_1_9_W, SKETCH_1_9_H)
    # profile 4 of 9: a face of its own
    with BuildSketch(Plane(origin=(0, 0, 0), x_dir=(1, 0, 0), z_dir=(0, 1, 0)).offset(EXTRUDE_START_4)):
        with Locations((15, -10.75)):
            Rectangle(SKETCH_1_9_W, SKETCH_1_9_H_2)
    # profile 5 of 9: a face of its own
    with BuildSketch(Plane(origin=(0, 0, 0), x_dir=(1, 0, 0), z_dir=(0, 1, 0)).offset(EXTRUDE_START_4)):
        with Locations((-6.5, -10.75)):
            Rectangle(SKETCH_1_9_W, SKETCH_1_9_H_2)
    # profile 6 of 9: a face of its own
    with BuildSketch(Plane(origin=(0, 0, 0), x_dir=(1, 0, 0), z_dir=(0, 1, 0)).offset(EXTRUDE_START_4)):
        with Locations((-6.5, -5.75)):
            Rectangle(SKETCH_1_9_W, SKETCH_1_9_H)
    # profile 7 of 9: a face of its own
    with BuildSketch(Plane(origin=(0, 0, 0), x_dir=(1, 0, 0), z_dir=(0, 1, 0)).offset(EXTRUDE_START_4)):
        with BuildLine():
            Line((20, -12.25), (22, -12.25))
            ThreePointArc((22, -12.25), (22.707106781, -11.957106781), (23, -11.25))
            Line((23, -11.25), (23, -6.5))
            Line((23, -6.5), (23, 6.5))
            Line((23, 6.5), (23, 11.25))
            ThreePointArc((23, 11.25), (22.707106781, 11.957106781), (22, 12.25))
            Line((22, 12.25), (-22, 12.25))
            ThreePointArc((-22, 12.25), (-22.707106781, 11.957106781), (-23, 11.25))
            Line((-23, 11.25), (-23, 6.5))
            Line((-23, 6.5), (-23, -6.5))
            Line((-23, -6.5), (-23, -11.25))
            ThreePointArc((-23, -11.25), (-22.707106781, -11.957106781), (-22, -12.25))
            Line((-22, -12.25), (-11.5, -12.25))
            Line((-11.5, -12.25), (-11.5, -9.25))
            Line((-11.5, -9.25), (-20, -9.25))
            Line((-20, -9.25), (-20, 9.25))
            Line((-20, 9.25), (-1.5, 9.25))
            Line((-1.5, 9.25), (-1.5, -2.25))
            Line((-1.5, -2.25), (-1.5, -9.25))
            Line((-1.5, -9.25), (-1.5, -12.25))
            Line((-1.5, -12.25), (10, -12.25))
            Line((10, -12.25), (10, -9.25))
            Line((10, -9.25), (1.5, -9.25))
            Line((1.5, -9.25), (1.5, 9.25))
            Line((1.5, 9.25), (20, 9.25))
            Line((20, 9.25), (20, -2.25))
            Line((20, -2.25), (20, -9.25))
            Line((20, -9.25), (20, -12.25))
        make_face()
    # profile 8 of 9: a face of its own
    with BuildSketch(Plane(origin=(0, 0, 0), x_dir=(1, 0, 0), z_dir=(0, 1, 0)).offset(EXTRUDE_START_4)):
        with BuildLine():
            Line((23, 6.5), (23, -6.5))
            ThreePointArc((23, -6.5), (23.951902961, -4.201902961), (26.25, -3.25))
            ThreePointArc((26.25, -3.25), (29.5, 0), (26.25, 3.25))
            ThreePointArc((26.25, 3.25), (23.951902961, 4.201902961), (23, 6.5))
        make_face()
        with Locations(Location((26.25, 0, 0), (0, 0, 270))):
            Circle(SKETCH_1_9_R, mode=Mode.SUBTRACT)
    # profile 9 of 9: a face of its own
    with BuildSketch(Plane(origin=(0, 0, 0), x_dir=(1, 0, 0), z_dir=(0, 1, 0)).offset(EXTRUDE_START_4)):
        with BuildLine():
            ThreePointArc((-26.25, -3.25), (-23.951902961, -4.201902961), (-23, -6.5))
            Line((-23, -6.5), (-23, 6.5))
            ThreePointArc((-23, 6.5), (-23.951902961, 4.201902961), (-26.25, 3.25))
            ThreePointArc((-26.25, 3.25), (-29.5, 0), (-26.25, -3.25))
        make_face()
        with Locations(Location((-26.25, 0, 0), (0, 0, 270))):
            Circle(SKETCH_1_9_R, mode=Mode.SUBTRACT)
    extrude(amount=EXTRUDE_5_DEPTH)

    # Скругление1
    fillet_1_edges = [body_2.edges().sort_by_distance(p)[0] for p in [
        (-22.707106781, 10.5, -11.957106781),
        (-23, 10.5, -8.875),
        (-29.5, 10.5, 0),
        (-23, 10.5, 8.875),
        (-22.707106781, 10.5, 11.957106781),
        (0, 10.5, 12.25),
        (22.707106781, 10.5, 11.957106781),
        (29.5, 10.5, 0),
        (22.707106781, 10.5, -11.957106781),
        (0, 10.5, -12.25),
        (-23.951902961, 10.5, -4.201902961),
        (-23.951902961, 10.5, 4.201902961),
        (23, 10.5, 8.875),
        (23.951902961, 10.5, 4.201902961),
        (23.951902961, 10.5, -4.201902961),
        (23, 10.5, -8.875),
    ]]
    fillet(fillet_1_edges, radius=FILLET_1_R)


solid = part.part
